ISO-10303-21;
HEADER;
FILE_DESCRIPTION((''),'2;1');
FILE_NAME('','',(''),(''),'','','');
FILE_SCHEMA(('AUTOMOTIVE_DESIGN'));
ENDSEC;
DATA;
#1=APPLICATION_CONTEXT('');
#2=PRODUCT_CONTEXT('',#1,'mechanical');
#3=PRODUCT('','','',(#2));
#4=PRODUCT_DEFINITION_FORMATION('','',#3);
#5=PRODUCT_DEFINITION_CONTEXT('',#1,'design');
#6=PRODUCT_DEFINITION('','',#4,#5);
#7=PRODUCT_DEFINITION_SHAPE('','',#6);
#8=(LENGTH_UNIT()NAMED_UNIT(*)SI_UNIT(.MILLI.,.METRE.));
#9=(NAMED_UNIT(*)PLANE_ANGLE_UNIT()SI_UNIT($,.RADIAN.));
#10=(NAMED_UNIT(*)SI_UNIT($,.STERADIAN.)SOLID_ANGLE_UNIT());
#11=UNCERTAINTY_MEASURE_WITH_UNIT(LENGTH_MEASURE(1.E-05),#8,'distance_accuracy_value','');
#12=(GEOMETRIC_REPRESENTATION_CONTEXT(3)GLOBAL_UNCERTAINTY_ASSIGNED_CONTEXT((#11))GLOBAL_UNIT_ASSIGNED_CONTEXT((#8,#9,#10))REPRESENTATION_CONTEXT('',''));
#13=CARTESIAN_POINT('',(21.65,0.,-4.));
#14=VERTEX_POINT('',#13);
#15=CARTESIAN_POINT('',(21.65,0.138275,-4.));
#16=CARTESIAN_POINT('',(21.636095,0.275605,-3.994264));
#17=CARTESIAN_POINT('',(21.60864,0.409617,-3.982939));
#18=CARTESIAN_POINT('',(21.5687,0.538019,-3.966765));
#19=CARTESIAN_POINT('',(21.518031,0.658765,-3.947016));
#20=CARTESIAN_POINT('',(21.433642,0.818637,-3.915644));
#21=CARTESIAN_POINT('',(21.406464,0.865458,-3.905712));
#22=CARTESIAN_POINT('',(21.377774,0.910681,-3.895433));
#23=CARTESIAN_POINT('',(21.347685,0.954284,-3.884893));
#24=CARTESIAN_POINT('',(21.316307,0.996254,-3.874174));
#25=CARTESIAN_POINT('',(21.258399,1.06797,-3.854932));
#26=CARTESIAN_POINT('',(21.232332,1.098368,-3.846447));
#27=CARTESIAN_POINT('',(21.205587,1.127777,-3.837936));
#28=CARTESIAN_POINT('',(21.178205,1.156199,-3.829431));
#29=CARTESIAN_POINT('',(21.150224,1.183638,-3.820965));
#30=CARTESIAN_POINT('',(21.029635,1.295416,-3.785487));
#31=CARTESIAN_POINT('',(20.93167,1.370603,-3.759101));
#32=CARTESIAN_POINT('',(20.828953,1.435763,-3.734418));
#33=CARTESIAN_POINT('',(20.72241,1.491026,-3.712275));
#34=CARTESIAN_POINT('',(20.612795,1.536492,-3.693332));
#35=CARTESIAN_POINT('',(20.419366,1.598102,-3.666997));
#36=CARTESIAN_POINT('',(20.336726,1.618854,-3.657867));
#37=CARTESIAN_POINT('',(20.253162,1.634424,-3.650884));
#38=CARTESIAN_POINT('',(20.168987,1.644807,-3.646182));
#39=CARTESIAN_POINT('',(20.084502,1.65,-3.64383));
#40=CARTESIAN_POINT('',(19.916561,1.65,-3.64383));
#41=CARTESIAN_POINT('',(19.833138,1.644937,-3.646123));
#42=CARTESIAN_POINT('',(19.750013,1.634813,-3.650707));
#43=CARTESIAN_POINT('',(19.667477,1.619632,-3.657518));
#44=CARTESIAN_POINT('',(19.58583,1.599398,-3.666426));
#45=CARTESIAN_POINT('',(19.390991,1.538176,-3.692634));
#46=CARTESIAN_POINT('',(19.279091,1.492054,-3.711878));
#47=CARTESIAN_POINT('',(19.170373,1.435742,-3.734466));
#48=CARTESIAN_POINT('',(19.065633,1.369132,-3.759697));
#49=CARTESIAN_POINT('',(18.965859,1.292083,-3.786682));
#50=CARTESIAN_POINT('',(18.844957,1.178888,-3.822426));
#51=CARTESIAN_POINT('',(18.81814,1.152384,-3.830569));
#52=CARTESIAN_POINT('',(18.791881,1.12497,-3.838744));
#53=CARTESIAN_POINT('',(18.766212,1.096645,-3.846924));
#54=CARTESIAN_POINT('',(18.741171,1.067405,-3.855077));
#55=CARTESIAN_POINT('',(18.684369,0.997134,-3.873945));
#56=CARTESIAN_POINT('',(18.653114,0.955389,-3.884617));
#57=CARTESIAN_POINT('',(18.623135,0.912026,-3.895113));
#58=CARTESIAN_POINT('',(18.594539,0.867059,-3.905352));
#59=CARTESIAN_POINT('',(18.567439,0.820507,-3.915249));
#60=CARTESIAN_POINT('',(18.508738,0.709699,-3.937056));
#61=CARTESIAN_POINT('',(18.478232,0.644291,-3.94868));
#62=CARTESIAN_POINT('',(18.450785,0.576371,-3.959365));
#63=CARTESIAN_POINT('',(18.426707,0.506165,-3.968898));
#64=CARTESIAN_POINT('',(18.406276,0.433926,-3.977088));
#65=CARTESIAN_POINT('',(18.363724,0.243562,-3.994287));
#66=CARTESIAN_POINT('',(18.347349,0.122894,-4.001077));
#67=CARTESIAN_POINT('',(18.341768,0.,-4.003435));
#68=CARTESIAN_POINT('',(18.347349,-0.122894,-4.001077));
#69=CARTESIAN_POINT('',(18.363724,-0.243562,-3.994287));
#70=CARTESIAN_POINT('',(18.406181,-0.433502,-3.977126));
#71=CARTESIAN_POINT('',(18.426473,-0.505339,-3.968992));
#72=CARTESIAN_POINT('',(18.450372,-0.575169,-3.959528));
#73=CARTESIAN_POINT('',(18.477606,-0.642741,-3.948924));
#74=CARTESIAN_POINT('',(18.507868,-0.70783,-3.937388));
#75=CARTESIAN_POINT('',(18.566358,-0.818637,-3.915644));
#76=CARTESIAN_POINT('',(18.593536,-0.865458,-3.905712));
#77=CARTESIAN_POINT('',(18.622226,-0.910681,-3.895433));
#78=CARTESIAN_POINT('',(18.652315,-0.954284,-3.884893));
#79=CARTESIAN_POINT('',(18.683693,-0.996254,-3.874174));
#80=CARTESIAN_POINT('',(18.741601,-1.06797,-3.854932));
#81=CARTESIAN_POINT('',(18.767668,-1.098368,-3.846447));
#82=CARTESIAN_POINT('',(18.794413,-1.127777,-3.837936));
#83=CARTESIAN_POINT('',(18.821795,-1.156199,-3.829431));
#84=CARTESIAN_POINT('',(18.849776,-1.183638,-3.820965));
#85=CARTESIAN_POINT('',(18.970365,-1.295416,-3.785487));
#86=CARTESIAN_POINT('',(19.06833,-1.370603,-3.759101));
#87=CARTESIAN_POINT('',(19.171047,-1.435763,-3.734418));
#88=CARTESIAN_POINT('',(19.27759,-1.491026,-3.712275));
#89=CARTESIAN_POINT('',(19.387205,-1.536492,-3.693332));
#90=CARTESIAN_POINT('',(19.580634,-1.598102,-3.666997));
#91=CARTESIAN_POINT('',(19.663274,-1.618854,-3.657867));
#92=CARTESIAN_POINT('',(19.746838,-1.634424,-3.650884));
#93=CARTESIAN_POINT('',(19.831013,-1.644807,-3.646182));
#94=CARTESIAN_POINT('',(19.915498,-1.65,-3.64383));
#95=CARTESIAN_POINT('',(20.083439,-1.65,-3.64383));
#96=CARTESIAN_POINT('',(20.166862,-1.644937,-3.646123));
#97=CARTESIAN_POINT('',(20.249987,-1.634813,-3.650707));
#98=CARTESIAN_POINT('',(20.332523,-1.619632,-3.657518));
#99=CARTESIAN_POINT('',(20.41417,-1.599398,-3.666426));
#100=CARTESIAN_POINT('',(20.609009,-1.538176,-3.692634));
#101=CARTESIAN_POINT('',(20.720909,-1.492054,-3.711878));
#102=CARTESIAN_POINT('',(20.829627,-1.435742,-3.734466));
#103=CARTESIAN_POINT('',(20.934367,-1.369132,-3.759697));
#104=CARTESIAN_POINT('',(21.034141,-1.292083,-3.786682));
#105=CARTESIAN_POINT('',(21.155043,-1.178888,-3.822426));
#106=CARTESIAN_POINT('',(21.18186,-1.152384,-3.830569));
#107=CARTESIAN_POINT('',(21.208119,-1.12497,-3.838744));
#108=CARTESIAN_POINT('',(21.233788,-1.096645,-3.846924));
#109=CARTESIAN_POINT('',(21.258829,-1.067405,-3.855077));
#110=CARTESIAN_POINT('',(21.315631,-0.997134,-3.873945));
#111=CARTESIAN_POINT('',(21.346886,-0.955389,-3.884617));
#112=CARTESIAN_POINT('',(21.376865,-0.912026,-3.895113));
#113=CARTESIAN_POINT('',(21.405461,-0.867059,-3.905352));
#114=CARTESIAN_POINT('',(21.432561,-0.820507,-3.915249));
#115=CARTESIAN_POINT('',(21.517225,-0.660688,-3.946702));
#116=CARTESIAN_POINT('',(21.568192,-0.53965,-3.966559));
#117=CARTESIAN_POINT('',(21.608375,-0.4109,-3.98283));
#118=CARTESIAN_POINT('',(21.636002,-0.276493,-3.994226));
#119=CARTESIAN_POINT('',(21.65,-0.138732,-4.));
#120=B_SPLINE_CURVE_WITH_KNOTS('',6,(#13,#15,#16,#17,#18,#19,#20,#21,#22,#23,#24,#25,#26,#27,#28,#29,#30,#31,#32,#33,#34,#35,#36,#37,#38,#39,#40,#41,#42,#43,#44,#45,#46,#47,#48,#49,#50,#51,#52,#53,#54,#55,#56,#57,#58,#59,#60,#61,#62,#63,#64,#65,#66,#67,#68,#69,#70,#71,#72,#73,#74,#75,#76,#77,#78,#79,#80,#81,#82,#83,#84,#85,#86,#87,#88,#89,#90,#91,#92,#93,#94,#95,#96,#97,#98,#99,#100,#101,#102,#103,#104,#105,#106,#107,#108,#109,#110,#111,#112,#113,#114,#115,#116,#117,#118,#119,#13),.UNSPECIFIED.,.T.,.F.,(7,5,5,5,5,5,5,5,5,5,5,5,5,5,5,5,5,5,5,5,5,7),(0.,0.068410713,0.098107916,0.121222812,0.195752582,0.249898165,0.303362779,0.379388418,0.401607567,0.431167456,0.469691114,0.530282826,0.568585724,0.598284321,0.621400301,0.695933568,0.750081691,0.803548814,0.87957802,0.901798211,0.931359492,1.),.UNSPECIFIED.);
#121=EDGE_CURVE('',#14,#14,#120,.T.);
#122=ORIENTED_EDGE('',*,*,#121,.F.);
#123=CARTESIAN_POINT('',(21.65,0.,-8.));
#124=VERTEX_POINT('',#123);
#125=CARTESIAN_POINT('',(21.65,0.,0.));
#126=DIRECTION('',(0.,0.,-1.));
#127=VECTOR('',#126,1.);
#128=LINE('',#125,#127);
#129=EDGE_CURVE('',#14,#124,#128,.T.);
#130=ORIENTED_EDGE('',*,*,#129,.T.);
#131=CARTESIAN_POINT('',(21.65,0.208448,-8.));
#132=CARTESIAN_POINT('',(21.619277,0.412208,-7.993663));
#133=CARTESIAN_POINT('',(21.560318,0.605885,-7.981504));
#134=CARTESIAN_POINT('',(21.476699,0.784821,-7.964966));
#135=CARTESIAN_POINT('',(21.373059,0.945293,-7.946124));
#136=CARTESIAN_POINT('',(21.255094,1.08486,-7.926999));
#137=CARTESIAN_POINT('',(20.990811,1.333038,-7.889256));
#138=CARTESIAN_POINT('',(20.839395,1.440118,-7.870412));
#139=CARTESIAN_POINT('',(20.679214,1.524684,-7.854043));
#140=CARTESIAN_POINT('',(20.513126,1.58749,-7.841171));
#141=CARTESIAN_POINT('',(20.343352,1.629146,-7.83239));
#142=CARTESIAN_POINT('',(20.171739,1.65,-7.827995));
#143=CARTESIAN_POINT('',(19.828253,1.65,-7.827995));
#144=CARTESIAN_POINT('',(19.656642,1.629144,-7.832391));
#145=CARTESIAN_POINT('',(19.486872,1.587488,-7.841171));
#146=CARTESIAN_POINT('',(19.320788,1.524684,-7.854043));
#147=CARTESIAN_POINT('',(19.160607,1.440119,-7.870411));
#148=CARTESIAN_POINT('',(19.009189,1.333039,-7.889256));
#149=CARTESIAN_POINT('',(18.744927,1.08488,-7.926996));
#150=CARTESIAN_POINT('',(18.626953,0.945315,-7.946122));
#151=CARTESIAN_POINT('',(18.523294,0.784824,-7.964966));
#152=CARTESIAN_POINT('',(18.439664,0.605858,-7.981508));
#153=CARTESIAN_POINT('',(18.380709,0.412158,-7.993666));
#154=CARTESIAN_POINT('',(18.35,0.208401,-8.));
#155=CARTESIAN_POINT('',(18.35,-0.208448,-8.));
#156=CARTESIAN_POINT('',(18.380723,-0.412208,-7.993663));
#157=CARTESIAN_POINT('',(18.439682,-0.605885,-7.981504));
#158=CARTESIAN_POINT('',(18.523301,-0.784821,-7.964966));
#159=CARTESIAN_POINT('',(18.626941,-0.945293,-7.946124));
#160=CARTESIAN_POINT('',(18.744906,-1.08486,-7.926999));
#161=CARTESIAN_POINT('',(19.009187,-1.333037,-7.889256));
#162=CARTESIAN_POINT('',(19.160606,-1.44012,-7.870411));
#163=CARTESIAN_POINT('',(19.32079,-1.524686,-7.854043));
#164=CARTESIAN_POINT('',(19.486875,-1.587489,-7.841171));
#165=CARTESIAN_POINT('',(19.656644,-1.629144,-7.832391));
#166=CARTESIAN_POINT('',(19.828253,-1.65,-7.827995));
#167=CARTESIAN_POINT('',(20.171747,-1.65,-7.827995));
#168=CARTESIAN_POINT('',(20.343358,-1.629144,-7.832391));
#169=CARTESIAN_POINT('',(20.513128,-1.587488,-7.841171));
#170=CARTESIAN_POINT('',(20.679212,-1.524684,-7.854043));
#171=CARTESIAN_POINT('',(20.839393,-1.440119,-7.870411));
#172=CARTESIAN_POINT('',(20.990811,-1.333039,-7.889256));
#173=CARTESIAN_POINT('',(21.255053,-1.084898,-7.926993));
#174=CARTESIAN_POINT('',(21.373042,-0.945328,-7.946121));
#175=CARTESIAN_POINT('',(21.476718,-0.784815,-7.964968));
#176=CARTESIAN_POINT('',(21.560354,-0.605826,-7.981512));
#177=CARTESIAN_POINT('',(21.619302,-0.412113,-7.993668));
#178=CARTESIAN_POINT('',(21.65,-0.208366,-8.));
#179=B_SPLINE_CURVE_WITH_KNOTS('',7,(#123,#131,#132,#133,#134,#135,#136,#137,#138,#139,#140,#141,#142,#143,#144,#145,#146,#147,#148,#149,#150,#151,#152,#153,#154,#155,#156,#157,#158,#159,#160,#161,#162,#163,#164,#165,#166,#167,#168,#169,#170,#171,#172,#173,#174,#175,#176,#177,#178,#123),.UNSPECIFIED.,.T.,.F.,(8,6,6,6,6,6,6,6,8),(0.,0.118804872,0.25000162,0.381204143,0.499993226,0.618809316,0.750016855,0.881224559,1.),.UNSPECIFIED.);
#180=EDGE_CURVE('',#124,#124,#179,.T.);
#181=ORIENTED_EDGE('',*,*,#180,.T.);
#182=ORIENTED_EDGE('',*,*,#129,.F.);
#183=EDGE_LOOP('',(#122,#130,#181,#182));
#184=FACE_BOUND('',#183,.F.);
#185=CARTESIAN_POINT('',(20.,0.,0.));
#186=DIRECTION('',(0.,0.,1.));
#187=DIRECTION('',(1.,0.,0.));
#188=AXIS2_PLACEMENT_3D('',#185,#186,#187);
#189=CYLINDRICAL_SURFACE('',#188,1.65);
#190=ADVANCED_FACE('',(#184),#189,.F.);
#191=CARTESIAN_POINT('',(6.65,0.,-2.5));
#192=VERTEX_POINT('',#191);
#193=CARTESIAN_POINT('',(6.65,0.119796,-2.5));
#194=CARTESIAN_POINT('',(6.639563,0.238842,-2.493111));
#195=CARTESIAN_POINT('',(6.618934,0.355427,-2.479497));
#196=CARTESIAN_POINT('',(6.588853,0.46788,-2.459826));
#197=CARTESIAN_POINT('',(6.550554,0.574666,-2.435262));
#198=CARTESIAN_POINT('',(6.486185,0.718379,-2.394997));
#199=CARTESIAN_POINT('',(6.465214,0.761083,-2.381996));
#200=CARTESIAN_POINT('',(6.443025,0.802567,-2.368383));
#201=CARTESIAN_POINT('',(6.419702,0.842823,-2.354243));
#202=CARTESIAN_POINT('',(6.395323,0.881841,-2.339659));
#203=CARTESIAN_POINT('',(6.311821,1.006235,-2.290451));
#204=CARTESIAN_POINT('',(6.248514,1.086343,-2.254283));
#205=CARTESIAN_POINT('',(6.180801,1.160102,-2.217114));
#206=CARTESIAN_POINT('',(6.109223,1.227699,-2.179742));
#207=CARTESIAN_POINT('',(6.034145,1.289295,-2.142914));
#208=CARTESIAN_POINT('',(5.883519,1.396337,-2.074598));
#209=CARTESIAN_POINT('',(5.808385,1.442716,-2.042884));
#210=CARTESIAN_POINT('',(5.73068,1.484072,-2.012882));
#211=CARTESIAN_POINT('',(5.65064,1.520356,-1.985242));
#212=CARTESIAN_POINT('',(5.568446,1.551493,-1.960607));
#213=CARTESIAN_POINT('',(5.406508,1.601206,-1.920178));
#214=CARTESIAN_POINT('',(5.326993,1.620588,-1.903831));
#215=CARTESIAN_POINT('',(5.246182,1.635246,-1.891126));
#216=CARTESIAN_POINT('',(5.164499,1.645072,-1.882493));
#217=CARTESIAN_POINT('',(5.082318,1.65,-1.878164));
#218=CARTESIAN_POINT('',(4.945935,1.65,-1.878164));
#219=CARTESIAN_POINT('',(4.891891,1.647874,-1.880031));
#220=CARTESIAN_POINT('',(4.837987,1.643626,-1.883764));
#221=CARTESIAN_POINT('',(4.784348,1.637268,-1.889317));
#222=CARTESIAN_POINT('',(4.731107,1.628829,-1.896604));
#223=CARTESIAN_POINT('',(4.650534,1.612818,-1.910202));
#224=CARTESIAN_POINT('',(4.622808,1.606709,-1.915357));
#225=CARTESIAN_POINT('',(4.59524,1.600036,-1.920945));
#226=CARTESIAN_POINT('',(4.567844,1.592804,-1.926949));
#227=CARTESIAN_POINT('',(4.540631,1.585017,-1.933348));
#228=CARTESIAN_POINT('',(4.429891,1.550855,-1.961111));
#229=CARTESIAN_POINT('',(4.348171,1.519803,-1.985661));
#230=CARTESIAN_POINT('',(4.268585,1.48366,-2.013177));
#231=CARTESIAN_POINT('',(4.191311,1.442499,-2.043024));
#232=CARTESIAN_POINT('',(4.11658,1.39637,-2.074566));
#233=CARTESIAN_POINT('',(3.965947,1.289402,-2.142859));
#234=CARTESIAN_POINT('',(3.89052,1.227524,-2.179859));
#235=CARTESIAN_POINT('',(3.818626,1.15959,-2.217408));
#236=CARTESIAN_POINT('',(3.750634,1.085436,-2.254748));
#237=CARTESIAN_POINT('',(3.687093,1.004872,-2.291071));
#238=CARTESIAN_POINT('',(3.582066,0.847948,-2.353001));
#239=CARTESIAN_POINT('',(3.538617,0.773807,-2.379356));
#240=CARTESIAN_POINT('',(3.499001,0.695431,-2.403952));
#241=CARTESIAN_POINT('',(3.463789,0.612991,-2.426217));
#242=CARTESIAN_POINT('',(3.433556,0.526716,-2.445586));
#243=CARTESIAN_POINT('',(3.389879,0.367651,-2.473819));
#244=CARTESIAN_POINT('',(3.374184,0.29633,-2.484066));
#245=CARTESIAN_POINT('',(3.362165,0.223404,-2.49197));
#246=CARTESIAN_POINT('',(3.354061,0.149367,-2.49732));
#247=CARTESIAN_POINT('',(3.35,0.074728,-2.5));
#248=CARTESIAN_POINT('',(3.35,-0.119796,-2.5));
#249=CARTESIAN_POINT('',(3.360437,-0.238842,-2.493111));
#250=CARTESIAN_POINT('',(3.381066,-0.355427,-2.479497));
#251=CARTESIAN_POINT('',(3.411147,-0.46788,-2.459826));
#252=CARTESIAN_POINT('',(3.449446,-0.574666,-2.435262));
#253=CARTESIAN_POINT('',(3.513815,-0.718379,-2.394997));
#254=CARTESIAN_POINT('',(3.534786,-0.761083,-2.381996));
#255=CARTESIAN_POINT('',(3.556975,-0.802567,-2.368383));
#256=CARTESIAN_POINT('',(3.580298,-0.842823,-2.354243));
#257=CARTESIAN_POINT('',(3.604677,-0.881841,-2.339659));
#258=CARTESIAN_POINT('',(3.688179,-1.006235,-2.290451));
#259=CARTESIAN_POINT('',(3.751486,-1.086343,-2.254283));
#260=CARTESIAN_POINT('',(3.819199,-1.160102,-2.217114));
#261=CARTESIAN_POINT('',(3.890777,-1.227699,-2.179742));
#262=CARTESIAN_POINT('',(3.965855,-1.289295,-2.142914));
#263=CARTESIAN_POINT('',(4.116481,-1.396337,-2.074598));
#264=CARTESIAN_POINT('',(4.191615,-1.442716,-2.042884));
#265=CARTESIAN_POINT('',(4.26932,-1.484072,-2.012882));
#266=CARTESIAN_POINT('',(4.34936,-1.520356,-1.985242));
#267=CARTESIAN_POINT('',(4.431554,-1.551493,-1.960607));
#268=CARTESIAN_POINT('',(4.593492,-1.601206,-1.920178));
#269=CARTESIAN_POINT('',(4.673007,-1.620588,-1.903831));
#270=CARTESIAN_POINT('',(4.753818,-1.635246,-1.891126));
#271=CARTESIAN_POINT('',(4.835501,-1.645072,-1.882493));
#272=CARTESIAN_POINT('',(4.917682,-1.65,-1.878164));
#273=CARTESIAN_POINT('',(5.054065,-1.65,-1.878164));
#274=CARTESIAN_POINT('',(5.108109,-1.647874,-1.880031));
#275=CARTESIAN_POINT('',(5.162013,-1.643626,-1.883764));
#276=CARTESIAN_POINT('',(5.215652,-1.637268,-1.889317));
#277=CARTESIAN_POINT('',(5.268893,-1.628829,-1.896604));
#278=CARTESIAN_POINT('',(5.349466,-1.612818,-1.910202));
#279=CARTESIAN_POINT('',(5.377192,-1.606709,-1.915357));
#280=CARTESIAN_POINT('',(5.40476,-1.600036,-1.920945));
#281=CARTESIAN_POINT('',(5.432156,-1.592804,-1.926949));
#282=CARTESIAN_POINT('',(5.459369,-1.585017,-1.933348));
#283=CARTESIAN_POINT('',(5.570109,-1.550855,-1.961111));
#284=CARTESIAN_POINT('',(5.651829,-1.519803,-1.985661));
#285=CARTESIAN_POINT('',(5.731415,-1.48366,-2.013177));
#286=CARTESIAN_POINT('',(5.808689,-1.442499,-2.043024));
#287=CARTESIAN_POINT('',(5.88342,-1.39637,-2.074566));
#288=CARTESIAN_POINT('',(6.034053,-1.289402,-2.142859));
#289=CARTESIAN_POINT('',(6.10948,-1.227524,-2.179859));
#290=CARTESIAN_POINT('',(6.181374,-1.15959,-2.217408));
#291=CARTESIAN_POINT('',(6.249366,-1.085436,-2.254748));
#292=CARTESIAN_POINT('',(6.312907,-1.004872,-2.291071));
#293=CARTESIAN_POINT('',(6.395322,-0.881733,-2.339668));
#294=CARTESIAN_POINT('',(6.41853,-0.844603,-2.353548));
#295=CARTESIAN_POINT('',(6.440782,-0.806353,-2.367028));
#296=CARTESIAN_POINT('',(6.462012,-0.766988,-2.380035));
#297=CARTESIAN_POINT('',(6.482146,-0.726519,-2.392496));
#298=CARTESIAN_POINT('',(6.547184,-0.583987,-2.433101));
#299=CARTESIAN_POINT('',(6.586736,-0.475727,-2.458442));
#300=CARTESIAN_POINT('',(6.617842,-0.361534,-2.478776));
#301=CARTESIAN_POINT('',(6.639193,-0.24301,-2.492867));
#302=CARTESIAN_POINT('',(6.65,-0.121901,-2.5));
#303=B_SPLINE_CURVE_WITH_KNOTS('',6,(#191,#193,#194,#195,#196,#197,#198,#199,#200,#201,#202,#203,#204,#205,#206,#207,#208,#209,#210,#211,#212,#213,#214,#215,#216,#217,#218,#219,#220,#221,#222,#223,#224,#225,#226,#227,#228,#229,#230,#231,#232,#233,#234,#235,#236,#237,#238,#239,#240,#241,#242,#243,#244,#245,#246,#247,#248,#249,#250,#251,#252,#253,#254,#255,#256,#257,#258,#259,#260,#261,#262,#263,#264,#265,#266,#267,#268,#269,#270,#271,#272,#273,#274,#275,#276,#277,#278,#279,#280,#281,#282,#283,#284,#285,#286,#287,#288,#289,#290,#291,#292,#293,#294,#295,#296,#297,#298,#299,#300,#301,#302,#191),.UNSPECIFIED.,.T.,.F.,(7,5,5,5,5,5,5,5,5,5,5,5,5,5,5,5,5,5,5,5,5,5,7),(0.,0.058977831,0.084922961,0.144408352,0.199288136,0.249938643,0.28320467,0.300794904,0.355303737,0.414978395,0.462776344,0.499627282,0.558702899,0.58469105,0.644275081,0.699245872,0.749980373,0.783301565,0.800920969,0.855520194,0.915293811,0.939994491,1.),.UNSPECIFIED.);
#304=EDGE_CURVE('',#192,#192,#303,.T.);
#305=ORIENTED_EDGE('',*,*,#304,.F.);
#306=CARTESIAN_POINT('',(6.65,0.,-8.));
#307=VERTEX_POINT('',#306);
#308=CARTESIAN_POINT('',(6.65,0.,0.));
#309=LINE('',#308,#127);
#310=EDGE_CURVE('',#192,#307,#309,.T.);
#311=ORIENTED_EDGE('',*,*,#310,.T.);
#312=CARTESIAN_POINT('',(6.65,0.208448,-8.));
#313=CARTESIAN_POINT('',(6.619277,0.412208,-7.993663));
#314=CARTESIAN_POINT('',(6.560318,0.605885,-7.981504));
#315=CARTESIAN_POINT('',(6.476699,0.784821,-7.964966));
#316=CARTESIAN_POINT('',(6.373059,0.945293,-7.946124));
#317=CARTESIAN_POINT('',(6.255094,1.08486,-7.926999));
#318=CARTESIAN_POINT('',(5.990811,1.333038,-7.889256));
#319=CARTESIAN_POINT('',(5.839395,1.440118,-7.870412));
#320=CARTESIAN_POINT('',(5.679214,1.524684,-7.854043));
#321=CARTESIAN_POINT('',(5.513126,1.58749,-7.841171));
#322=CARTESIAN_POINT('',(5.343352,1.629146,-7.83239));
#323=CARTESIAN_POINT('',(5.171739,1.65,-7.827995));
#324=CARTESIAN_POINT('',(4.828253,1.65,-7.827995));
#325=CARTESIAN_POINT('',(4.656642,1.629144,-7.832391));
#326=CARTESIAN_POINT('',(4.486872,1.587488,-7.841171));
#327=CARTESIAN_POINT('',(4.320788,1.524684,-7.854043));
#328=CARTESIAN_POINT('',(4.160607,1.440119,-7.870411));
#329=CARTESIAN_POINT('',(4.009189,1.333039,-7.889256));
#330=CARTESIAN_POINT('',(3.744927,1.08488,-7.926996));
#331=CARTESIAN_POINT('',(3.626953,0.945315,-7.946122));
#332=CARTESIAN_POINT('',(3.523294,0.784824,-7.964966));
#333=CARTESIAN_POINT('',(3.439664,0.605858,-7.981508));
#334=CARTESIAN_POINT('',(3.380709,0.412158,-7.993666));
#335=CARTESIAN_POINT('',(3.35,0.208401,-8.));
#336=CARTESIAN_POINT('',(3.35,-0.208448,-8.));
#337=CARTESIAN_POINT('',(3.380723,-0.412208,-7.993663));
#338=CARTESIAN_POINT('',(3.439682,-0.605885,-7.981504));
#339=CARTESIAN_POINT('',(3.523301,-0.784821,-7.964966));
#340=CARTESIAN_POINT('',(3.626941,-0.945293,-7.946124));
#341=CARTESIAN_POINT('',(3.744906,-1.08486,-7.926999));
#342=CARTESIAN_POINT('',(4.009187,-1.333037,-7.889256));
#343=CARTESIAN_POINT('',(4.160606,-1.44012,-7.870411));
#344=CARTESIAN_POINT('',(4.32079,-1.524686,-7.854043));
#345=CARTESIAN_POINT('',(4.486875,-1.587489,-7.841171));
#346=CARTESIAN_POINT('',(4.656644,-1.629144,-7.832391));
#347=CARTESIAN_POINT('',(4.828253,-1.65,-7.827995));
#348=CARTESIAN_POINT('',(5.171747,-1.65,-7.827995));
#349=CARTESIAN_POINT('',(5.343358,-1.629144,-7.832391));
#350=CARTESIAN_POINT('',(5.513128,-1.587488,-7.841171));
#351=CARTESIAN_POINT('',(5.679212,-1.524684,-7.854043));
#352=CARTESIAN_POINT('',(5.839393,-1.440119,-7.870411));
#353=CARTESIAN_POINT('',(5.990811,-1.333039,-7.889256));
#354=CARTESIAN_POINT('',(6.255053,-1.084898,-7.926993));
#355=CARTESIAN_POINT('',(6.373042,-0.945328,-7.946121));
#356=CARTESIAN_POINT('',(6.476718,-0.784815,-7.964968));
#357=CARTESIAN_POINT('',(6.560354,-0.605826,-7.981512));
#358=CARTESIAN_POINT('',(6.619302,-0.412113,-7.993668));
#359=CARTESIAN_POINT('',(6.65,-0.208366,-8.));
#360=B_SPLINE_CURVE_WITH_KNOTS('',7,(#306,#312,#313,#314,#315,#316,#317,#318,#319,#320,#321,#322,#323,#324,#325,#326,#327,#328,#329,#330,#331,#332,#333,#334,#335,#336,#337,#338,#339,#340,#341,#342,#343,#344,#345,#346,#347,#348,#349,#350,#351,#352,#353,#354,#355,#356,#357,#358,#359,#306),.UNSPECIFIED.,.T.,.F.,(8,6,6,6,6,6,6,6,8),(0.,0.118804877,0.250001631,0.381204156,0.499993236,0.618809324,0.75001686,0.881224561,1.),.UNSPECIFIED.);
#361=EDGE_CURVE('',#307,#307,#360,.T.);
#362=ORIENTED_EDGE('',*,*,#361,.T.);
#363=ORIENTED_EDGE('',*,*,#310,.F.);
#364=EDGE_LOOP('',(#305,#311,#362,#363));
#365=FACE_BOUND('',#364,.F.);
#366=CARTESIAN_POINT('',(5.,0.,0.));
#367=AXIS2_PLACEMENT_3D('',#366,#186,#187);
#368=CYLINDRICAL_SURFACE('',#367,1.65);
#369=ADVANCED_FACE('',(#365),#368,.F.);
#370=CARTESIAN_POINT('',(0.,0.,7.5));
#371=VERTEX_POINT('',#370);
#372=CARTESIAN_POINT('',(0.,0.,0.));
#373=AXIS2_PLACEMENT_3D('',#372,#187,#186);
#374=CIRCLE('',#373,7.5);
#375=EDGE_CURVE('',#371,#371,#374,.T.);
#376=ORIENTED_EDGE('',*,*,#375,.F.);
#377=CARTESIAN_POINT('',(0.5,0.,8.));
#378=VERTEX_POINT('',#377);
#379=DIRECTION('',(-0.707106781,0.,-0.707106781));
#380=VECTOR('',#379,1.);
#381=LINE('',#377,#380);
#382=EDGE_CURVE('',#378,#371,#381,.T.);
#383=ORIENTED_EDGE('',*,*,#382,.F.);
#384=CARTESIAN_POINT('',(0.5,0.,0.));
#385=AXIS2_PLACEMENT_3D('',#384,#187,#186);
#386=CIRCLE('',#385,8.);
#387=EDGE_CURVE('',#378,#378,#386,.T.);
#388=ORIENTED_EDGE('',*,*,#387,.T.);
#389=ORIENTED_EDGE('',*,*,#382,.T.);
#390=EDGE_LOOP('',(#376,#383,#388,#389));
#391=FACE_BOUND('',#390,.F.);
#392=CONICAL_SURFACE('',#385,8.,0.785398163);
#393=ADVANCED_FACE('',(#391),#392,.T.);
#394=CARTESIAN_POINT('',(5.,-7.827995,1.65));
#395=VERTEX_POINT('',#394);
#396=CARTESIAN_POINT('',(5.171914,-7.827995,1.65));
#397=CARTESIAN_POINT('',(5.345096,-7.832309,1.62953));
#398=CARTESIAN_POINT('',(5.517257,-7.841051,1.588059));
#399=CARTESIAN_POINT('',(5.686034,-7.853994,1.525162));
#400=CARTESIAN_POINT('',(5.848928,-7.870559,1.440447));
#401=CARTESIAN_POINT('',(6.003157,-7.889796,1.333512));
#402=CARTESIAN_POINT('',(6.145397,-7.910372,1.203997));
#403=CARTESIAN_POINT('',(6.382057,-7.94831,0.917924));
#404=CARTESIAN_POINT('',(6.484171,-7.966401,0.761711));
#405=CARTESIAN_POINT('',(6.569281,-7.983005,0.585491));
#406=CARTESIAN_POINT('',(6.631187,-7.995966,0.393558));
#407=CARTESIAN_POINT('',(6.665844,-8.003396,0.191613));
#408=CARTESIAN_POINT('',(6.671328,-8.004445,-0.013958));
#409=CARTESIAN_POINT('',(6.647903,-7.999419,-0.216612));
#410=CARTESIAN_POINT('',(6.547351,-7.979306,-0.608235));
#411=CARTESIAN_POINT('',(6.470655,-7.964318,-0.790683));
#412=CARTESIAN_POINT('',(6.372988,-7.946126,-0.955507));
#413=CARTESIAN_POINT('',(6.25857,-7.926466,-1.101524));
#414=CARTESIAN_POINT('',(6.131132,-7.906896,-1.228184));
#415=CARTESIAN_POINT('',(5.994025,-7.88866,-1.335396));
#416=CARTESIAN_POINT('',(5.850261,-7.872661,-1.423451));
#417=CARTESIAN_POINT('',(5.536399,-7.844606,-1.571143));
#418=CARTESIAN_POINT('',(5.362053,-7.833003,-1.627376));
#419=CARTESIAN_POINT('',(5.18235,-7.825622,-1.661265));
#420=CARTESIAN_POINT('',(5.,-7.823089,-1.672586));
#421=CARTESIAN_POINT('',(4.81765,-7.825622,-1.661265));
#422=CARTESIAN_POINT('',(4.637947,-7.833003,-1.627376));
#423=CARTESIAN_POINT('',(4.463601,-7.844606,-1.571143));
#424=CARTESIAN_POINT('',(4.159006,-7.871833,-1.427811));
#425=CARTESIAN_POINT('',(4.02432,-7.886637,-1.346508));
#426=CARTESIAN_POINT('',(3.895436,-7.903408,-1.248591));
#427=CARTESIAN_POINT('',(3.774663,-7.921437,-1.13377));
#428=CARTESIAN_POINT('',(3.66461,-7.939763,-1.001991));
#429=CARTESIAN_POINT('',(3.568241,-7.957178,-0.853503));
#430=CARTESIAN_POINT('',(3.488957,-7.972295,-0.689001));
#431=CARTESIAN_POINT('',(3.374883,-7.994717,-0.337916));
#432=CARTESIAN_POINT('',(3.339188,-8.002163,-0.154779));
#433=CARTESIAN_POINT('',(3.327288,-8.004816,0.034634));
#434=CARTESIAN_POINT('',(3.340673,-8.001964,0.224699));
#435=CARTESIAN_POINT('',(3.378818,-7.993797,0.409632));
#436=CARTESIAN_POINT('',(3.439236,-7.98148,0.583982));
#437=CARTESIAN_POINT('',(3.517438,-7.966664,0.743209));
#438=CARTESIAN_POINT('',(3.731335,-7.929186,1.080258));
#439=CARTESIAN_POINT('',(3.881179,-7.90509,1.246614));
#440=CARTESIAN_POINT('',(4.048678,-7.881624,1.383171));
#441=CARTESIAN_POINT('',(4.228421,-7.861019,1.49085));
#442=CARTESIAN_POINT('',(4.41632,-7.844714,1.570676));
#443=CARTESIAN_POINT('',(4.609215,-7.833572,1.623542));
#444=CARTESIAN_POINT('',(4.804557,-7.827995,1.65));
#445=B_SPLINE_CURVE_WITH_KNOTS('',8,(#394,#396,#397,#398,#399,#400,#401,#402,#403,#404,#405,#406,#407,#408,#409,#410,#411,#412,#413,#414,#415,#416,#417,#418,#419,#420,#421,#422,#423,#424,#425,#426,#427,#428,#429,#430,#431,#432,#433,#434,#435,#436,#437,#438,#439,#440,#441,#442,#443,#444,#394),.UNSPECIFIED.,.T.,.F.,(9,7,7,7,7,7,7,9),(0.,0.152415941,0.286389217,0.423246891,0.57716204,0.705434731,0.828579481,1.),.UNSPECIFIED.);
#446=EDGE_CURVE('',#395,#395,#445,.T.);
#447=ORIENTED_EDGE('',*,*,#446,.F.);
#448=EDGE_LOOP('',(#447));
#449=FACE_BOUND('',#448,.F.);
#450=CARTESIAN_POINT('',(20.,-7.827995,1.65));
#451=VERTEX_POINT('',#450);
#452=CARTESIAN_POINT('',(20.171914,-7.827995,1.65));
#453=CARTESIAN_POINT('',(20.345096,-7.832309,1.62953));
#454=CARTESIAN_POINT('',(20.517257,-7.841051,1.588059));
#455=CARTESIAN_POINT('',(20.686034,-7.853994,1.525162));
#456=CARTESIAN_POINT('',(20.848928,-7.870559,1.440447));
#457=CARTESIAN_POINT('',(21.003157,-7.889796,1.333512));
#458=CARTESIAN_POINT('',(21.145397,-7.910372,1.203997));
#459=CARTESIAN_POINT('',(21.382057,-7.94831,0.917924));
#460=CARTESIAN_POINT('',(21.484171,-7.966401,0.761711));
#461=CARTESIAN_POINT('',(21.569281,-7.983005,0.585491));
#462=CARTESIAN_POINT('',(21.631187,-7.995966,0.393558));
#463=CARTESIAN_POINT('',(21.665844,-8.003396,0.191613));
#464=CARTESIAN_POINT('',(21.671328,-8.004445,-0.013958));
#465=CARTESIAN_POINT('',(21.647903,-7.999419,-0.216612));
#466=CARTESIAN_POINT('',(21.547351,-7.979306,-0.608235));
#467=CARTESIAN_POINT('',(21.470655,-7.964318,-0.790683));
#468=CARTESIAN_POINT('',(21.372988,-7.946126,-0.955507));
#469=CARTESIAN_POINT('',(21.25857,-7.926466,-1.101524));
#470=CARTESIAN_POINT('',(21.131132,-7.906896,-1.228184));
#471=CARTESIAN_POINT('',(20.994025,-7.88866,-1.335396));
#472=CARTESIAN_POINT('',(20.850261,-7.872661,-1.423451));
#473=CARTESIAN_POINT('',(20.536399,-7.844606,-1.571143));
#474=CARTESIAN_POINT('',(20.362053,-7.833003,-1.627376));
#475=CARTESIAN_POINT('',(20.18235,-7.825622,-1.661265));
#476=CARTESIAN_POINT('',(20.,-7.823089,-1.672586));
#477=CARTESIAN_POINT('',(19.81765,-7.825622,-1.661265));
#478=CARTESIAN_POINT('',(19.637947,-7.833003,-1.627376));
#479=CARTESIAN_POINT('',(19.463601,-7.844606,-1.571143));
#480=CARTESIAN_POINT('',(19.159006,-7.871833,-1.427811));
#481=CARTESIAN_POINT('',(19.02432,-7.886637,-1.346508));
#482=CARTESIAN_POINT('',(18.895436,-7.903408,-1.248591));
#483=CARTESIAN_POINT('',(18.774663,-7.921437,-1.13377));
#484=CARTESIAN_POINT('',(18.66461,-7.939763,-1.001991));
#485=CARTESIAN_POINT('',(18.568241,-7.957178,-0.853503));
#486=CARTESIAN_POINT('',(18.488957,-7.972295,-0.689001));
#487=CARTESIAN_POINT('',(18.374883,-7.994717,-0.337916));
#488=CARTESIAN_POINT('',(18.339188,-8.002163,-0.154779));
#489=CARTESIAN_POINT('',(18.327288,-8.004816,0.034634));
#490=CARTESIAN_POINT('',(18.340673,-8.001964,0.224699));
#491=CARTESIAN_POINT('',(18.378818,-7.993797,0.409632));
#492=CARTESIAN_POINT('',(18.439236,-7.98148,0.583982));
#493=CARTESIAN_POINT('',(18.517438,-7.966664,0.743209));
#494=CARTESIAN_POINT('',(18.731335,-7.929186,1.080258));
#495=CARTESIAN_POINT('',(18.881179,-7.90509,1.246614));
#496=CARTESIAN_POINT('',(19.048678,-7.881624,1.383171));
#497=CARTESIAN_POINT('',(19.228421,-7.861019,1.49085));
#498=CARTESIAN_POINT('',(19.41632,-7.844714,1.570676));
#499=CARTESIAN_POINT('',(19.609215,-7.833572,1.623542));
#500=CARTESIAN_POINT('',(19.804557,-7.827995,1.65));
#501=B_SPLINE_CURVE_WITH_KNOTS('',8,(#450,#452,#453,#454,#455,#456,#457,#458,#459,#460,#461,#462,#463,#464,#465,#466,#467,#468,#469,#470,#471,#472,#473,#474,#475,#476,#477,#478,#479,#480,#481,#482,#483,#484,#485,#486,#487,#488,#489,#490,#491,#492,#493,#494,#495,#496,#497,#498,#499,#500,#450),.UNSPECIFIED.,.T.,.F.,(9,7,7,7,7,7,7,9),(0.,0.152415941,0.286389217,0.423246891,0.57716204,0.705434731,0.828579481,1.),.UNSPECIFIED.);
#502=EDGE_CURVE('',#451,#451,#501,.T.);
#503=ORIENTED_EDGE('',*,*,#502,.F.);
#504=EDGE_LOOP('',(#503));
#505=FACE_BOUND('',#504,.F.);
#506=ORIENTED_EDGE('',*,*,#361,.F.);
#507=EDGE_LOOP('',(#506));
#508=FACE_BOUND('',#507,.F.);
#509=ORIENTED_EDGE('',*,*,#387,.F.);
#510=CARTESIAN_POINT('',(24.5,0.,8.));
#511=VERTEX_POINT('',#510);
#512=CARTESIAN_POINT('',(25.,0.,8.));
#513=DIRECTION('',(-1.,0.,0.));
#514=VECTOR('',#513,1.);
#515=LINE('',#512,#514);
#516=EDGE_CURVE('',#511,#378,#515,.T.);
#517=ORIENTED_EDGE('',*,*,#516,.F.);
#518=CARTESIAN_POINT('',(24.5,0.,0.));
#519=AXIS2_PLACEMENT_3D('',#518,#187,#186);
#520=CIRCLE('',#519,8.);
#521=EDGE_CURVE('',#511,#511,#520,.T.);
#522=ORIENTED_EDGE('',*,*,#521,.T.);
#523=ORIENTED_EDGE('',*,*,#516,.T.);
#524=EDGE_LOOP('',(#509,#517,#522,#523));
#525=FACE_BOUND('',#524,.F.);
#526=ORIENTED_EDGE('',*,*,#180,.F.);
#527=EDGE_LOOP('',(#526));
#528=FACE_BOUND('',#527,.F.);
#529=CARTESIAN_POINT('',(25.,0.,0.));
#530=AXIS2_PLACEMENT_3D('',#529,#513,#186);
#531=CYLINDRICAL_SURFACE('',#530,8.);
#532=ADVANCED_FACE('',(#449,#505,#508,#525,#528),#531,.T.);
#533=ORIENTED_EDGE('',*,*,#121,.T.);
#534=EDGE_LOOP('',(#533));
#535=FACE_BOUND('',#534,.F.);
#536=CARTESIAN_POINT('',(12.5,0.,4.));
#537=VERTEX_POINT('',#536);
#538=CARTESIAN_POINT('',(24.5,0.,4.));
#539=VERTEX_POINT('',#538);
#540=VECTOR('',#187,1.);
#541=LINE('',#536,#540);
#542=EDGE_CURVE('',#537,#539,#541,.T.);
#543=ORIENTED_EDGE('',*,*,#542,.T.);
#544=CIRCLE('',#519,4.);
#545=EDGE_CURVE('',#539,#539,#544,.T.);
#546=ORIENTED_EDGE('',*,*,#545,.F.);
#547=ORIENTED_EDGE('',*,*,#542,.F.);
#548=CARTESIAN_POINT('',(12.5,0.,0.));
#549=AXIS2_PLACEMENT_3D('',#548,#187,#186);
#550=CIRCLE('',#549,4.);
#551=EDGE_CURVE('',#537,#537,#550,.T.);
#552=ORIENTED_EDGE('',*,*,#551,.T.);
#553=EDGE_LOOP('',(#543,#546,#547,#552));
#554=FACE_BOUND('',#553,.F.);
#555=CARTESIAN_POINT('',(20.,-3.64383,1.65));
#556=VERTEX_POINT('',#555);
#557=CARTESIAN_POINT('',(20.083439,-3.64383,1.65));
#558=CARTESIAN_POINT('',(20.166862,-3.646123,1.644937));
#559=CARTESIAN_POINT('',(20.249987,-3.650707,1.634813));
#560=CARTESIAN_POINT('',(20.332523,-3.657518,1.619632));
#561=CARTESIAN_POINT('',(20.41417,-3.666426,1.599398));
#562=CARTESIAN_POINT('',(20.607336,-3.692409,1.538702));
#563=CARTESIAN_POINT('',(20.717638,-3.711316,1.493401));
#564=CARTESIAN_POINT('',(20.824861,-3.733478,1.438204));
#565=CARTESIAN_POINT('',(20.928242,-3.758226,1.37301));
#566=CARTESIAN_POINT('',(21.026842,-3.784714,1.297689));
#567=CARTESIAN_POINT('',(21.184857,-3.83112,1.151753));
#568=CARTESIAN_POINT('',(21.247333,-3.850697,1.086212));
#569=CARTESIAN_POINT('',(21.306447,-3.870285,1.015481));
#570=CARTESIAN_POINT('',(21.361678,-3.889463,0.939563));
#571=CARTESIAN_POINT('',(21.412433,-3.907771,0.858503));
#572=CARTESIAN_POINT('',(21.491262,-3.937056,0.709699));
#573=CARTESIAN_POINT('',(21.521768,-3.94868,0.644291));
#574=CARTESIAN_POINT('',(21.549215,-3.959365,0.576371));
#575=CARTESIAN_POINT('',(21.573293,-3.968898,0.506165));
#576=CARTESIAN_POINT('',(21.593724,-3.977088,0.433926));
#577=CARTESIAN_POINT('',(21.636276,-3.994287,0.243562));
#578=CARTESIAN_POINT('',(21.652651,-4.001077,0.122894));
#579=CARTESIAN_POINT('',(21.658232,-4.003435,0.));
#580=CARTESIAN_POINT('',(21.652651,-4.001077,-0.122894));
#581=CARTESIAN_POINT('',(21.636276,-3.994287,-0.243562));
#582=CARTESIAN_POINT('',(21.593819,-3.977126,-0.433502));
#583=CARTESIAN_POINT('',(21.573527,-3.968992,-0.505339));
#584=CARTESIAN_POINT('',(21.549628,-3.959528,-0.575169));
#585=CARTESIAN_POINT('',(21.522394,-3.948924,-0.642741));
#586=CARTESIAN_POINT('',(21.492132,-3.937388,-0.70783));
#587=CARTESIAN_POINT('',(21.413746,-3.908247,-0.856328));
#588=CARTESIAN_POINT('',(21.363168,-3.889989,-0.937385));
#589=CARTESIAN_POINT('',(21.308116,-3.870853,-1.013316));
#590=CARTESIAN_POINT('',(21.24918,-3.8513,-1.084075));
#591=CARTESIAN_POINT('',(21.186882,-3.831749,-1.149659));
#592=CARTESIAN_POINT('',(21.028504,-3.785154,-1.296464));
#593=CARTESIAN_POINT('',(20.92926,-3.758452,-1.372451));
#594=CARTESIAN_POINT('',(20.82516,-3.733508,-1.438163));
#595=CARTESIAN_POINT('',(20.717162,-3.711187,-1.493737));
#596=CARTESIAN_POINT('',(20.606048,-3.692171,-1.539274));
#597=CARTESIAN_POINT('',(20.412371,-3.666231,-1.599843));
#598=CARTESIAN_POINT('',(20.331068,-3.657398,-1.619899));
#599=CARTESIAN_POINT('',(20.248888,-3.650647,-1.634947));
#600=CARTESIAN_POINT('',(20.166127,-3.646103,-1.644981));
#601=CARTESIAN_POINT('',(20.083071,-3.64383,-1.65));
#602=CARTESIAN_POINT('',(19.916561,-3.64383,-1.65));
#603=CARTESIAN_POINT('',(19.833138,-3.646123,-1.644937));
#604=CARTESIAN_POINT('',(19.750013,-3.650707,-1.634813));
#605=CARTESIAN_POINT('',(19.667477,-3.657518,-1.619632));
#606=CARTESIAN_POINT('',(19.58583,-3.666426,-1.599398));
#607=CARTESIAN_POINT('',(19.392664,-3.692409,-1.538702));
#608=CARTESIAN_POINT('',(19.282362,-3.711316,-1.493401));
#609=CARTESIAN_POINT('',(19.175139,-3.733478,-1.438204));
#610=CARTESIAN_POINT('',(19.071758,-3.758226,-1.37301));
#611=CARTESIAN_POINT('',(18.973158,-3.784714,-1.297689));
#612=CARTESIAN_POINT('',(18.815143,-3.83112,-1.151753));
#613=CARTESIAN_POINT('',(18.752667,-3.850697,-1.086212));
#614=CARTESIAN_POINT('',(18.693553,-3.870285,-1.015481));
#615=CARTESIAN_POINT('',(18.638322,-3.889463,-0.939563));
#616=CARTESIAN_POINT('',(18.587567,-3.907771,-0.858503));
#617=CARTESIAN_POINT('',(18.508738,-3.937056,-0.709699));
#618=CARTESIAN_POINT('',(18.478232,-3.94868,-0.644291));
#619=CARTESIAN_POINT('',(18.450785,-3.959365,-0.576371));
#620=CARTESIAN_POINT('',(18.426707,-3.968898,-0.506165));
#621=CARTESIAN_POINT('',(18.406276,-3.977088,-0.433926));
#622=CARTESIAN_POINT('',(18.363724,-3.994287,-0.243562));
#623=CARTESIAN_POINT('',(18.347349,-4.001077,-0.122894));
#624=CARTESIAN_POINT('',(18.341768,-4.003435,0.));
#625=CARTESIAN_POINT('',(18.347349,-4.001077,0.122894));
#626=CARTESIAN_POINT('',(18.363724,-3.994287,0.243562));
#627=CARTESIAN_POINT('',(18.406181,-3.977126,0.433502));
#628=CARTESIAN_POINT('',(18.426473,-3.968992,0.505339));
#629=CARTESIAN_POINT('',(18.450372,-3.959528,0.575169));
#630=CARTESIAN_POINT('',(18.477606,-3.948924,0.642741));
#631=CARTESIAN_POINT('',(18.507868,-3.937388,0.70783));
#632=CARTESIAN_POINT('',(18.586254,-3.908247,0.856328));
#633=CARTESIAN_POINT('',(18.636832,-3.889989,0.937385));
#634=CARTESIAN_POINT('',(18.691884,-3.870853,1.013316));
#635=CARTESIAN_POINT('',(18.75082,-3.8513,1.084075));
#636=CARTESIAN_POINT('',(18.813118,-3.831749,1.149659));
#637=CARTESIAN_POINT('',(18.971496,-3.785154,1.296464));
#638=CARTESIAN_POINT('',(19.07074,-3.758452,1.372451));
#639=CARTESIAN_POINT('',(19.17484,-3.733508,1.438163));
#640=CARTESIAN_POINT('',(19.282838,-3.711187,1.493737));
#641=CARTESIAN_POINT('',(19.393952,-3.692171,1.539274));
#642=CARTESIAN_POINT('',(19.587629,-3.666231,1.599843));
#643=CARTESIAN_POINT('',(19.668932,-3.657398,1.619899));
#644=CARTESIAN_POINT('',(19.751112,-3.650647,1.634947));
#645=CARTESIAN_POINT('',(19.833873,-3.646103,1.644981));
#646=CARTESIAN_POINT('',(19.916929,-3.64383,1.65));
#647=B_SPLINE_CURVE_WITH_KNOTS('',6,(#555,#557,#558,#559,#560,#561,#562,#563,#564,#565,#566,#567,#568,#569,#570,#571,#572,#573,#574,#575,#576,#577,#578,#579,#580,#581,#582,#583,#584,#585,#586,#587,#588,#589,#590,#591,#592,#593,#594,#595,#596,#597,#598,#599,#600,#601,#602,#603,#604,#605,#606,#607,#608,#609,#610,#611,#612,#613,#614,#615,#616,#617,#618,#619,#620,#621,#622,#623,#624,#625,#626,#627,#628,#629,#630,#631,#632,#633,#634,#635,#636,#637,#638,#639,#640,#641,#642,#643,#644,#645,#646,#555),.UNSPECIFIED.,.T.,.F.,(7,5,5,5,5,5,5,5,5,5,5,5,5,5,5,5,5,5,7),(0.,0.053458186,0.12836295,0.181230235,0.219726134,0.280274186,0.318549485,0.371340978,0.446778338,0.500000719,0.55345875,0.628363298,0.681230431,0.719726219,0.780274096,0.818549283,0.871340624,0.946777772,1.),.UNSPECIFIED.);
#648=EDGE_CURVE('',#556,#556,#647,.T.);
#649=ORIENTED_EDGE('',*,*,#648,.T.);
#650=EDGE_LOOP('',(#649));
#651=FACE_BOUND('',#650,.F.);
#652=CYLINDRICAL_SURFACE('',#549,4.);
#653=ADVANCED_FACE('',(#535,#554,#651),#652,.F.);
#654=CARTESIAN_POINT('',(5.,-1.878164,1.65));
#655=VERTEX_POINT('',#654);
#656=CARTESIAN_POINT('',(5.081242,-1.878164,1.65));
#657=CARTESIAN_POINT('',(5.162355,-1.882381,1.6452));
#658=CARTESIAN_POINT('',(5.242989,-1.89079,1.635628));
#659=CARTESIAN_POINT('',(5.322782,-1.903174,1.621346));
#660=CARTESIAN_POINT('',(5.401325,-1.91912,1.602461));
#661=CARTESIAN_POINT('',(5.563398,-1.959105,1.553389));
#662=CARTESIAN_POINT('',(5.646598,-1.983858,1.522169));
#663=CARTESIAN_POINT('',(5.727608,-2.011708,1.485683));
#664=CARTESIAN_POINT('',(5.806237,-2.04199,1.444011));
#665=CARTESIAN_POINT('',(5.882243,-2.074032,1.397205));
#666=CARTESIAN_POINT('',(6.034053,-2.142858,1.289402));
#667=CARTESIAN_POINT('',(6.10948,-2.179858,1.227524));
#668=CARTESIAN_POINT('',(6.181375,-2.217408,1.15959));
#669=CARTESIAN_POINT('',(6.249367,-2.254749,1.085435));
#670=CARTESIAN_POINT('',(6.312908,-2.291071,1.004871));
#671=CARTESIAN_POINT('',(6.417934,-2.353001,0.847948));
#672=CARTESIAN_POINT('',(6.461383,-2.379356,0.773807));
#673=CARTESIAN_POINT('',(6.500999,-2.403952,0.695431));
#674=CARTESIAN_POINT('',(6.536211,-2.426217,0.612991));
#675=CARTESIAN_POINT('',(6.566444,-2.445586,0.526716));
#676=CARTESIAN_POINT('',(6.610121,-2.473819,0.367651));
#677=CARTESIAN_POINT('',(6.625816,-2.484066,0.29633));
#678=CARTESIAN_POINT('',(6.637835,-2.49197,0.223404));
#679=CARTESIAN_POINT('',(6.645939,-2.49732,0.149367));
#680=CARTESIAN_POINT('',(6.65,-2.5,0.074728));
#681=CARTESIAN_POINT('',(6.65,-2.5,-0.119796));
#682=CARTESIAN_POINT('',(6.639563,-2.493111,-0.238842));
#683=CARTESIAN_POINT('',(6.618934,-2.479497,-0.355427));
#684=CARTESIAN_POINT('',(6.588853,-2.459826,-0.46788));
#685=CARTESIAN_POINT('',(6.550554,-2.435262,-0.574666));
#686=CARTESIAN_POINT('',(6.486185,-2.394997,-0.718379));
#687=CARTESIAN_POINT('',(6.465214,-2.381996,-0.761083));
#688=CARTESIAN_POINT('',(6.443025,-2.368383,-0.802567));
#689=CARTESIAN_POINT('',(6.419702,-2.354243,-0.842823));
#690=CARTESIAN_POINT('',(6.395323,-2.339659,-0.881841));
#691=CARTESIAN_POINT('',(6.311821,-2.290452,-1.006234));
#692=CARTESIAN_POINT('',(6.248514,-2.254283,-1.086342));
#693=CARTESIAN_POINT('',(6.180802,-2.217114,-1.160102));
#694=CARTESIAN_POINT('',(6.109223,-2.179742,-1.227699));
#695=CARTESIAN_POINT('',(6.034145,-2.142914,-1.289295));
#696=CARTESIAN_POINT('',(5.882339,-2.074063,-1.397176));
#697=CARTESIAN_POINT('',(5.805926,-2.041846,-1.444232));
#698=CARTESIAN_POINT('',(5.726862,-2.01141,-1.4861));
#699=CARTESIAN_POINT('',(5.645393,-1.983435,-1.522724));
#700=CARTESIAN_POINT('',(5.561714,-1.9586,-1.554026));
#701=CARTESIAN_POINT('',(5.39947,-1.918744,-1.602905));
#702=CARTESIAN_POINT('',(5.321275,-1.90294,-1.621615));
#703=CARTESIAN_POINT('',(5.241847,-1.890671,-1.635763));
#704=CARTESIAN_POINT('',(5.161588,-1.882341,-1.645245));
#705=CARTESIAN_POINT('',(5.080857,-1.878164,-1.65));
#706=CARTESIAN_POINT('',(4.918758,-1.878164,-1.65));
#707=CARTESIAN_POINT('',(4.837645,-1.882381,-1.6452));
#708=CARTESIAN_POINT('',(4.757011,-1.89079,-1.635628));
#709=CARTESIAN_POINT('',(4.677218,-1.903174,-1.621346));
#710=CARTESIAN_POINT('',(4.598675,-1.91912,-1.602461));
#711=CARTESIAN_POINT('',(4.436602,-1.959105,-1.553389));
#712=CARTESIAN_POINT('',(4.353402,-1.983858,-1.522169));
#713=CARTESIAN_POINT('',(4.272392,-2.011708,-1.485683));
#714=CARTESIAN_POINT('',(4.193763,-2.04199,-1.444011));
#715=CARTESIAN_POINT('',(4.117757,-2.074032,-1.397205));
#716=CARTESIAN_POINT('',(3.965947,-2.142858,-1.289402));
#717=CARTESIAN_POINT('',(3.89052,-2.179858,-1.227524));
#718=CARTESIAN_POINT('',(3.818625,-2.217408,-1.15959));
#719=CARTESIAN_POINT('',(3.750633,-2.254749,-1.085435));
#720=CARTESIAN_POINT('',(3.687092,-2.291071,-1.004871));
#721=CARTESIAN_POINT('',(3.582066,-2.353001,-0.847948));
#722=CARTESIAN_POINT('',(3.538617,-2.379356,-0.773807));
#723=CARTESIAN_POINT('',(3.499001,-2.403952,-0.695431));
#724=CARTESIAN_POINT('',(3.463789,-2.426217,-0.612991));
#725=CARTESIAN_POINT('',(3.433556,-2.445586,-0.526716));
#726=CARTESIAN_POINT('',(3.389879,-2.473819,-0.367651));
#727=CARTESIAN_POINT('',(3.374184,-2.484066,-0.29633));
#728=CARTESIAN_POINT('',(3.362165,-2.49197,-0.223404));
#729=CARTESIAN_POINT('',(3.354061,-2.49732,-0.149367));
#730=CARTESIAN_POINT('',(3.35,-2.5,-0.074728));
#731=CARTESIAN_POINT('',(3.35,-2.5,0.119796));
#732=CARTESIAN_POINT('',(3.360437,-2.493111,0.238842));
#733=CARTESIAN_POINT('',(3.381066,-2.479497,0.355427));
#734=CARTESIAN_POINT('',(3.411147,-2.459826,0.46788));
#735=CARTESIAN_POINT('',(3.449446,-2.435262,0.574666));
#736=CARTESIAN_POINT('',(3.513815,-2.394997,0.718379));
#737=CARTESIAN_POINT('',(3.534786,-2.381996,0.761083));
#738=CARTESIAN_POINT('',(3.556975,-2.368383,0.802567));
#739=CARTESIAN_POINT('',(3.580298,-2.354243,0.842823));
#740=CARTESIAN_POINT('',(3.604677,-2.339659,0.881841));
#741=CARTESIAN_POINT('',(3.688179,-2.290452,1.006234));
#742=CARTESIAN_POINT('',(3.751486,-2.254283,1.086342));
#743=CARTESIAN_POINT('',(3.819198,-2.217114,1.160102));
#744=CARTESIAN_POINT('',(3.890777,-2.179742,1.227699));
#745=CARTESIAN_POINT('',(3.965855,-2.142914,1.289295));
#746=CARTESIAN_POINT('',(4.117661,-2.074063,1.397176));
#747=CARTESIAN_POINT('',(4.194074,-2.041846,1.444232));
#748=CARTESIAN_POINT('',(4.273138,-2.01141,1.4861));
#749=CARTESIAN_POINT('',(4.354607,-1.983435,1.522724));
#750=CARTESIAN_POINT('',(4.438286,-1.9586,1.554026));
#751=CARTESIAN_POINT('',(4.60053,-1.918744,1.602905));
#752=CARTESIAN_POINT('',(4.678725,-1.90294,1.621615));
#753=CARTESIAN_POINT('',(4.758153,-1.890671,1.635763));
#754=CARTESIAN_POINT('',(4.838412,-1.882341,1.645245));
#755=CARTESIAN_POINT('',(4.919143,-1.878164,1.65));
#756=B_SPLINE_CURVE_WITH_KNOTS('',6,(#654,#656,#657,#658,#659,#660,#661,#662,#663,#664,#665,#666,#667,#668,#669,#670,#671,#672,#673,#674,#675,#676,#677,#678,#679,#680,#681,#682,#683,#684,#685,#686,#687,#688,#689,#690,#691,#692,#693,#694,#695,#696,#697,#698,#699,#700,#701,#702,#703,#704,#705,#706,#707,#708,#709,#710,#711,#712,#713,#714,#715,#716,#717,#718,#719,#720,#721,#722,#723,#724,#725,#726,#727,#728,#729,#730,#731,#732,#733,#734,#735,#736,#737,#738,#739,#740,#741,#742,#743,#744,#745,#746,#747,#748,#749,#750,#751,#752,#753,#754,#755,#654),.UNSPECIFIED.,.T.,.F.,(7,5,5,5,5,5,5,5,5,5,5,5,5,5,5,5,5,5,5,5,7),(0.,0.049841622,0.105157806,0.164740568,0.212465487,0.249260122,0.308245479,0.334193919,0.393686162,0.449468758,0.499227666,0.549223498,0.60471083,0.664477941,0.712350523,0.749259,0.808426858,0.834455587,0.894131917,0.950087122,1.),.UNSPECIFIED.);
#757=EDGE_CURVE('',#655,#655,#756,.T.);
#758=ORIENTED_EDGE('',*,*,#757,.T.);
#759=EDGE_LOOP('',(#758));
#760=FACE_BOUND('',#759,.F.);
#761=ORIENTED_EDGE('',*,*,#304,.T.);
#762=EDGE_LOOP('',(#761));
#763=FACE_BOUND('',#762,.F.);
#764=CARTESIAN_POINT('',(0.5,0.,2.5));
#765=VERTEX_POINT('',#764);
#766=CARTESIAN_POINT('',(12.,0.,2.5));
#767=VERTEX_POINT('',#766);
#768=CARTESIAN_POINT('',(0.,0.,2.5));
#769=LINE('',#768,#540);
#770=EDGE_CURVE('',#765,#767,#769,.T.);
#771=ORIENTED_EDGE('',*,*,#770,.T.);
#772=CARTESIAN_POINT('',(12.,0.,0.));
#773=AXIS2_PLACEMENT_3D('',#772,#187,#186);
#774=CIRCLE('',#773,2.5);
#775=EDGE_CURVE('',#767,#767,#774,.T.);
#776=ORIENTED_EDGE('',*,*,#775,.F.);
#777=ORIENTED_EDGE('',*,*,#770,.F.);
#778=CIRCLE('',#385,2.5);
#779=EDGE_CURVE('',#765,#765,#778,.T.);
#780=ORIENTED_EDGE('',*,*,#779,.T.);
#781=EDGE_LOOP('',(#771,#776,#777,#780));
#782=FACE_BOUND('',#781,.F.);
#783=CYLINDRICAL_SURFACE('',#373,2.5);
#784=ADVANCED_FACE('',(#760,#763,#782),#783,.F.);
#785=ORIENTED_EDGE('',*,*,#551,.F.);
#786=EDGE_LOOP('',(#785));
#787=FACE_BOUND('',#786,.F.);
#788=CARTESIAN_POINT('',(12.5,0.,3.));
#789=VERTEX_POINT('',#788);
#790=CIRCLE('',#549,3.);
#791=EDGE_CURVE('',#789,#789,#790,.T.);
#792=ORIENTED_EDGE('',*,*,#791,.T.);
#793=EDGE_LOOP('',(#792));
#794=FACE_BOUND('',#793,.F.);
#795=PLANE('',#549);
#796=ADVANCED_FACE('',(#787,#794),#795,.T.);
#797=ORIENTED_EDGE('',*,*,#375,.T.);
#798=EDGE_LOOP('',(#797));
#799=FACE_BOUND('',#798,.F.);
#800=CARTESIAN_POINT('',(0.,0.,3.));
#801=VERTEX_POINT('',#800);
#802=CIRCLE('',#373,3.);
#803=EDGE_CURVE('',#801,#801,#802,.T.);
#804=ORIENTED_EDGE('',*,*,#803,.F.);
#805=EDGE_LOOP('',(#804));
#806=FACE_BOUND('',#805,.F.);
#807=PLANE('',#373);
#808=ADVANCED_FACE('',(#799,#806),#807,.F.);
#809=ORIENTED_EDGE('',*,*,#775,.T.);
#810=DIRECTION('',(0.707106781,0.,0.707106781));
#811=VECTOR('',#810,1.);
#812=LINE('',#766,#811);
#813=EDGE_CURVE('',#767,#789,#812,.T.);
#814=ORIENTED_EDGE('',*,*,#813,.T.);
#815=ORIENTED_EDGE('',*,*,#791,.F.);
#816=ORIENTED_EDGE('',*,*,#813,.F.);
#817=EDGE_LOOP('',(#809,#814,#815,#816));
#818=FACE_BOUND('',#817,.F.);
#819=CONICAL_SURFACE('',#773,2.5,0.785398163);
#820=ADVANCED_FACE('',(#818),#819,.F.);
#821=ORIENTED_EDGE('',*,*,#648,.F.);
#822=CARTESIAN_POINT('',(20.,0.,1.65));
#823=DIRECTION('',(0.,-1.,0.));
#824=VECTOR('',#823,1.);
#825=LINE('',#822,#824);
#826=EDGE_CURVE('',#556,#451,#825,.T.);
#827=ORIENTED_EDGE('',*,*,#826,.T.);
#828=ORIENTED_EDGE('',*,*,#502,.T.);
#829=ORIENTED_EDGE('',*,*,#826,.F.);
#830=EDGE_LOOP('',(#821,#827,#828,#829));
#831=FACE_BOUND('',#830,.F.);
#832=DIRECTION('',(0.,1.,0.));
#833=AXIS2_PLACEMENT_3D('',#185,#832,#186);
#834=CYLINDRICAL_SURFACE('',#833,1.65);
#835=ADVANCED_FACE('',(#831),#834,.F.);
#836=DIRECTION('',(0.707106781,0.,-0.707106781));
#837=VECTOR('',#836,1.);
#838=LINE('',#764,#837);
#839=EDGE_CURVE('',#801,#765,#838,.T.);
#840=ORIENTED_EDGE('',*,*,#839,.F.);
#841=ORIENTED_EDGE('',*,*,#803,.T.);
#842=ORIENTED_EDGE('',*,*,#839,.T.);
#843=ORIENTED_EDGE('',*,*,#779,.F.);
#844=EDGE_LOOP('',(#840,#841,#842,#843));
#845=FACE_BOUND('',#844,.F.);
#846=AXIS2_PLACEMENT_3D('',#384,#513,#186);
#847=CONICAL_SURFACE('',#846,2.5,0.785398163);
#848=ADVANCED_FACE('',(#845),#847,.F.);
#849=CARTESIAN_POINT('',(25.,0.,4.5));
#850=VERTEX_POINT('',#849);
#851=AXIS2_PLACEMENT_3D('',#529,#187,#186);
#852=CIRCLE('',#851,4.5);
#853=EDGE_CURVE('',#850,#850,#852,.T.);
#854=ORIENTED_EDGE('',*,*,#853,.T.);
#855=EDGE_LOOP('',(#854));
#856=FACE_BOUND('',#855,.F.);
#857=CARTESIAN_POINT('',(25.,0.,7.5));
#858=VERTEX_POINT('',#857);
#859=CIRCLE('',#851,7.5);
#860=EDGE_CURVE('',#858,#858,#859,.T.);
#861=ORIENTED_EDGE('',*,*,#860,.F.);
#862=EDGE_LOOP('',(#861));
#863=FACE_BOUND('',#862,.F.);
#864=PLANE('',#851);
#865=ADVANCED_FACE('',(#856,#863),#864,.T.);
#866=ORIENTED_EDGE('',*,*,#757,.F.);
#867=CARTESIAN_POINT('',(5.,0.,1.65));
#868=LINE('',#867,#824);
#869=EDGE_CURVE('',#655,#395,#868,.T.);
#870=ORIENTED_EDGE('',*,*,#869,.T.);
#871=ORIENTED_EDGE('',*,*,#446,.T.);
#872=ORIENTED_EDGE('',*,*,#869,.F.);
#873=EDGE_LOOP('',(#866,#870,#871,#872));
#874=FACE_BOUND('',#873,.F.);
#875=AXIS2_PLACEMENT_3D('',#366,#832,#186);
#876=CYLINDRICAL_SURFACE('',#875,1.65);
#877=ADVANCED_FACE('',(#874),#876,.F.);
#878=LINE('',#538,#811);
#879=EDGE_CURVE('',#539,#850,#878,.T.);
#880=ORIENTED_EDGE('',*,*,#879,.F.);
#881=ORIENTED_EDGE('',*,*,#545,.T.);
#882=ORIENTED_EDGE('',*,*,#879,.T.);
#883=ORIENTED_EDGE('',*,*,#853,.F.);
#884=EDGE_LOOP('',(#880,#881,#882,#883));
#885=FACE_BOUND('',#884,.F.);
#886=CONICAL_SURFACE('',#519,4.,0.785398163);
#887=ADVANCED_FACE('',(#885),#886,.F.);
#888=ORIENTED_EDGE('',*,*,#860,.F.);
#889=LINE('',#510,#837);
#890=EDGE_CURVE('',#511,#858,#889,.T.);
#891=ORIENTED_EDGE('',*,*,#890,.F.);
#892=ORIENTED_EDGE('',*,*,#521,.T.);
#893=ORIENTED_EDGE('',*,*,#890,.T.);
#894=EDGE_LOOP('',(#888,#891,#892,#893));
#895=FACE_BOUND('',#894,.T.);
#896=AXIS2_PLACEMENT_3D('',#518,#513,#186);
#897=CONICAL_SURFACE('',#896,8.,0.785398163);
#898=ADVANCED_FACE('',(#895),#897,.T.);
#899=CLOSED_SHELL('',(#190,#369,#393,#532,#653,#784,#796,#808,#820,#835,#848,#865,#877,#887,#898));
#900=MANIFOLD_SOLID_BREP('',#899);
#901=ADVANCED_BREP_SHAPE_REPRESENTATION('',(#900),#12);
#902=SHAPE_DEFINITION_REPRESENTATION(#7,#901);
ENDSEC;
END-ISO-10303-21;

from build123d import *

# Parameters (mm, degrees)
CHAMFER_1_SIZE      = 0.5
SKETCH_2_R          = 1.65
CUT_EXTRUDE_1_DEPTH = 10
SKETCH_3_R          = 1.65
CUT_EXTRUDE_2_DEPTH = 10


with BuildPart() as part:
    # 草图1 → 旋转1 (revolve)
    with BuildSketch(Plane(origin=(0, 0, 0), x_dir=(1, 0, 0), z_dir=(0, 1, 0)), mode=Mode.PRIVATE) as revolve_1_sk:
        Polygon((25, 8), (0, 8), (0, 2.5), (12.5, 2.5), (12.5, 4), (25, 4), align=None)
    revolve(revolve_1_sk.sketch.rotate(Axis((-10.524691358, 0, 0), (1, 0, 0)), 180), axis=Axis((-10.524691358, 0, 0), (1, 0, 0)))

    # 倒角1
    chamfer_1_edges = [part.edges().sort_by_distance(p)[0] for p in [
        (25, 0, -4),
        (12.5, 0, -2.5),
        (0, 0, -2.5),
        (0, 0, -8),
        (25, 0, -8),
    ]]
    chamfer(chamfer_1_edges, length=CHAMFER_1_SIZE)

    # 草图2 → 切除-拉伸1 (cut)
    with BuildSketch(Plane(origin=(0, 0, 0), x_dir=(1, 0, 0), z_dir=(0, 1, 0))):
        with Locations(Location((5, 0, 0), (0, 0, 270))):
            Circle(SKETCH_2_R)
        with Locations(Location((20, 0, 0), (0, 0, 270))):
            Circle(SKETCH_2_R)
    extrude(amount=-CUT_EXTRUDE_1_DEPTH, mode=Mode.SUBTRACT)

    # 草图3 → 切除-拉伸2 (cut)
    with BuildSketch(Plane.XY):
        with Locations((5, 0)):
            Circle(SKETCH_3_R)
        with Locations((20, 0)):
            Circle(SKETCH_3_R)
    extrude(amount=-CUT_EXTRUDE_2_DEPTH, mode=Mode.SUBTRACT)


solid = part.part
